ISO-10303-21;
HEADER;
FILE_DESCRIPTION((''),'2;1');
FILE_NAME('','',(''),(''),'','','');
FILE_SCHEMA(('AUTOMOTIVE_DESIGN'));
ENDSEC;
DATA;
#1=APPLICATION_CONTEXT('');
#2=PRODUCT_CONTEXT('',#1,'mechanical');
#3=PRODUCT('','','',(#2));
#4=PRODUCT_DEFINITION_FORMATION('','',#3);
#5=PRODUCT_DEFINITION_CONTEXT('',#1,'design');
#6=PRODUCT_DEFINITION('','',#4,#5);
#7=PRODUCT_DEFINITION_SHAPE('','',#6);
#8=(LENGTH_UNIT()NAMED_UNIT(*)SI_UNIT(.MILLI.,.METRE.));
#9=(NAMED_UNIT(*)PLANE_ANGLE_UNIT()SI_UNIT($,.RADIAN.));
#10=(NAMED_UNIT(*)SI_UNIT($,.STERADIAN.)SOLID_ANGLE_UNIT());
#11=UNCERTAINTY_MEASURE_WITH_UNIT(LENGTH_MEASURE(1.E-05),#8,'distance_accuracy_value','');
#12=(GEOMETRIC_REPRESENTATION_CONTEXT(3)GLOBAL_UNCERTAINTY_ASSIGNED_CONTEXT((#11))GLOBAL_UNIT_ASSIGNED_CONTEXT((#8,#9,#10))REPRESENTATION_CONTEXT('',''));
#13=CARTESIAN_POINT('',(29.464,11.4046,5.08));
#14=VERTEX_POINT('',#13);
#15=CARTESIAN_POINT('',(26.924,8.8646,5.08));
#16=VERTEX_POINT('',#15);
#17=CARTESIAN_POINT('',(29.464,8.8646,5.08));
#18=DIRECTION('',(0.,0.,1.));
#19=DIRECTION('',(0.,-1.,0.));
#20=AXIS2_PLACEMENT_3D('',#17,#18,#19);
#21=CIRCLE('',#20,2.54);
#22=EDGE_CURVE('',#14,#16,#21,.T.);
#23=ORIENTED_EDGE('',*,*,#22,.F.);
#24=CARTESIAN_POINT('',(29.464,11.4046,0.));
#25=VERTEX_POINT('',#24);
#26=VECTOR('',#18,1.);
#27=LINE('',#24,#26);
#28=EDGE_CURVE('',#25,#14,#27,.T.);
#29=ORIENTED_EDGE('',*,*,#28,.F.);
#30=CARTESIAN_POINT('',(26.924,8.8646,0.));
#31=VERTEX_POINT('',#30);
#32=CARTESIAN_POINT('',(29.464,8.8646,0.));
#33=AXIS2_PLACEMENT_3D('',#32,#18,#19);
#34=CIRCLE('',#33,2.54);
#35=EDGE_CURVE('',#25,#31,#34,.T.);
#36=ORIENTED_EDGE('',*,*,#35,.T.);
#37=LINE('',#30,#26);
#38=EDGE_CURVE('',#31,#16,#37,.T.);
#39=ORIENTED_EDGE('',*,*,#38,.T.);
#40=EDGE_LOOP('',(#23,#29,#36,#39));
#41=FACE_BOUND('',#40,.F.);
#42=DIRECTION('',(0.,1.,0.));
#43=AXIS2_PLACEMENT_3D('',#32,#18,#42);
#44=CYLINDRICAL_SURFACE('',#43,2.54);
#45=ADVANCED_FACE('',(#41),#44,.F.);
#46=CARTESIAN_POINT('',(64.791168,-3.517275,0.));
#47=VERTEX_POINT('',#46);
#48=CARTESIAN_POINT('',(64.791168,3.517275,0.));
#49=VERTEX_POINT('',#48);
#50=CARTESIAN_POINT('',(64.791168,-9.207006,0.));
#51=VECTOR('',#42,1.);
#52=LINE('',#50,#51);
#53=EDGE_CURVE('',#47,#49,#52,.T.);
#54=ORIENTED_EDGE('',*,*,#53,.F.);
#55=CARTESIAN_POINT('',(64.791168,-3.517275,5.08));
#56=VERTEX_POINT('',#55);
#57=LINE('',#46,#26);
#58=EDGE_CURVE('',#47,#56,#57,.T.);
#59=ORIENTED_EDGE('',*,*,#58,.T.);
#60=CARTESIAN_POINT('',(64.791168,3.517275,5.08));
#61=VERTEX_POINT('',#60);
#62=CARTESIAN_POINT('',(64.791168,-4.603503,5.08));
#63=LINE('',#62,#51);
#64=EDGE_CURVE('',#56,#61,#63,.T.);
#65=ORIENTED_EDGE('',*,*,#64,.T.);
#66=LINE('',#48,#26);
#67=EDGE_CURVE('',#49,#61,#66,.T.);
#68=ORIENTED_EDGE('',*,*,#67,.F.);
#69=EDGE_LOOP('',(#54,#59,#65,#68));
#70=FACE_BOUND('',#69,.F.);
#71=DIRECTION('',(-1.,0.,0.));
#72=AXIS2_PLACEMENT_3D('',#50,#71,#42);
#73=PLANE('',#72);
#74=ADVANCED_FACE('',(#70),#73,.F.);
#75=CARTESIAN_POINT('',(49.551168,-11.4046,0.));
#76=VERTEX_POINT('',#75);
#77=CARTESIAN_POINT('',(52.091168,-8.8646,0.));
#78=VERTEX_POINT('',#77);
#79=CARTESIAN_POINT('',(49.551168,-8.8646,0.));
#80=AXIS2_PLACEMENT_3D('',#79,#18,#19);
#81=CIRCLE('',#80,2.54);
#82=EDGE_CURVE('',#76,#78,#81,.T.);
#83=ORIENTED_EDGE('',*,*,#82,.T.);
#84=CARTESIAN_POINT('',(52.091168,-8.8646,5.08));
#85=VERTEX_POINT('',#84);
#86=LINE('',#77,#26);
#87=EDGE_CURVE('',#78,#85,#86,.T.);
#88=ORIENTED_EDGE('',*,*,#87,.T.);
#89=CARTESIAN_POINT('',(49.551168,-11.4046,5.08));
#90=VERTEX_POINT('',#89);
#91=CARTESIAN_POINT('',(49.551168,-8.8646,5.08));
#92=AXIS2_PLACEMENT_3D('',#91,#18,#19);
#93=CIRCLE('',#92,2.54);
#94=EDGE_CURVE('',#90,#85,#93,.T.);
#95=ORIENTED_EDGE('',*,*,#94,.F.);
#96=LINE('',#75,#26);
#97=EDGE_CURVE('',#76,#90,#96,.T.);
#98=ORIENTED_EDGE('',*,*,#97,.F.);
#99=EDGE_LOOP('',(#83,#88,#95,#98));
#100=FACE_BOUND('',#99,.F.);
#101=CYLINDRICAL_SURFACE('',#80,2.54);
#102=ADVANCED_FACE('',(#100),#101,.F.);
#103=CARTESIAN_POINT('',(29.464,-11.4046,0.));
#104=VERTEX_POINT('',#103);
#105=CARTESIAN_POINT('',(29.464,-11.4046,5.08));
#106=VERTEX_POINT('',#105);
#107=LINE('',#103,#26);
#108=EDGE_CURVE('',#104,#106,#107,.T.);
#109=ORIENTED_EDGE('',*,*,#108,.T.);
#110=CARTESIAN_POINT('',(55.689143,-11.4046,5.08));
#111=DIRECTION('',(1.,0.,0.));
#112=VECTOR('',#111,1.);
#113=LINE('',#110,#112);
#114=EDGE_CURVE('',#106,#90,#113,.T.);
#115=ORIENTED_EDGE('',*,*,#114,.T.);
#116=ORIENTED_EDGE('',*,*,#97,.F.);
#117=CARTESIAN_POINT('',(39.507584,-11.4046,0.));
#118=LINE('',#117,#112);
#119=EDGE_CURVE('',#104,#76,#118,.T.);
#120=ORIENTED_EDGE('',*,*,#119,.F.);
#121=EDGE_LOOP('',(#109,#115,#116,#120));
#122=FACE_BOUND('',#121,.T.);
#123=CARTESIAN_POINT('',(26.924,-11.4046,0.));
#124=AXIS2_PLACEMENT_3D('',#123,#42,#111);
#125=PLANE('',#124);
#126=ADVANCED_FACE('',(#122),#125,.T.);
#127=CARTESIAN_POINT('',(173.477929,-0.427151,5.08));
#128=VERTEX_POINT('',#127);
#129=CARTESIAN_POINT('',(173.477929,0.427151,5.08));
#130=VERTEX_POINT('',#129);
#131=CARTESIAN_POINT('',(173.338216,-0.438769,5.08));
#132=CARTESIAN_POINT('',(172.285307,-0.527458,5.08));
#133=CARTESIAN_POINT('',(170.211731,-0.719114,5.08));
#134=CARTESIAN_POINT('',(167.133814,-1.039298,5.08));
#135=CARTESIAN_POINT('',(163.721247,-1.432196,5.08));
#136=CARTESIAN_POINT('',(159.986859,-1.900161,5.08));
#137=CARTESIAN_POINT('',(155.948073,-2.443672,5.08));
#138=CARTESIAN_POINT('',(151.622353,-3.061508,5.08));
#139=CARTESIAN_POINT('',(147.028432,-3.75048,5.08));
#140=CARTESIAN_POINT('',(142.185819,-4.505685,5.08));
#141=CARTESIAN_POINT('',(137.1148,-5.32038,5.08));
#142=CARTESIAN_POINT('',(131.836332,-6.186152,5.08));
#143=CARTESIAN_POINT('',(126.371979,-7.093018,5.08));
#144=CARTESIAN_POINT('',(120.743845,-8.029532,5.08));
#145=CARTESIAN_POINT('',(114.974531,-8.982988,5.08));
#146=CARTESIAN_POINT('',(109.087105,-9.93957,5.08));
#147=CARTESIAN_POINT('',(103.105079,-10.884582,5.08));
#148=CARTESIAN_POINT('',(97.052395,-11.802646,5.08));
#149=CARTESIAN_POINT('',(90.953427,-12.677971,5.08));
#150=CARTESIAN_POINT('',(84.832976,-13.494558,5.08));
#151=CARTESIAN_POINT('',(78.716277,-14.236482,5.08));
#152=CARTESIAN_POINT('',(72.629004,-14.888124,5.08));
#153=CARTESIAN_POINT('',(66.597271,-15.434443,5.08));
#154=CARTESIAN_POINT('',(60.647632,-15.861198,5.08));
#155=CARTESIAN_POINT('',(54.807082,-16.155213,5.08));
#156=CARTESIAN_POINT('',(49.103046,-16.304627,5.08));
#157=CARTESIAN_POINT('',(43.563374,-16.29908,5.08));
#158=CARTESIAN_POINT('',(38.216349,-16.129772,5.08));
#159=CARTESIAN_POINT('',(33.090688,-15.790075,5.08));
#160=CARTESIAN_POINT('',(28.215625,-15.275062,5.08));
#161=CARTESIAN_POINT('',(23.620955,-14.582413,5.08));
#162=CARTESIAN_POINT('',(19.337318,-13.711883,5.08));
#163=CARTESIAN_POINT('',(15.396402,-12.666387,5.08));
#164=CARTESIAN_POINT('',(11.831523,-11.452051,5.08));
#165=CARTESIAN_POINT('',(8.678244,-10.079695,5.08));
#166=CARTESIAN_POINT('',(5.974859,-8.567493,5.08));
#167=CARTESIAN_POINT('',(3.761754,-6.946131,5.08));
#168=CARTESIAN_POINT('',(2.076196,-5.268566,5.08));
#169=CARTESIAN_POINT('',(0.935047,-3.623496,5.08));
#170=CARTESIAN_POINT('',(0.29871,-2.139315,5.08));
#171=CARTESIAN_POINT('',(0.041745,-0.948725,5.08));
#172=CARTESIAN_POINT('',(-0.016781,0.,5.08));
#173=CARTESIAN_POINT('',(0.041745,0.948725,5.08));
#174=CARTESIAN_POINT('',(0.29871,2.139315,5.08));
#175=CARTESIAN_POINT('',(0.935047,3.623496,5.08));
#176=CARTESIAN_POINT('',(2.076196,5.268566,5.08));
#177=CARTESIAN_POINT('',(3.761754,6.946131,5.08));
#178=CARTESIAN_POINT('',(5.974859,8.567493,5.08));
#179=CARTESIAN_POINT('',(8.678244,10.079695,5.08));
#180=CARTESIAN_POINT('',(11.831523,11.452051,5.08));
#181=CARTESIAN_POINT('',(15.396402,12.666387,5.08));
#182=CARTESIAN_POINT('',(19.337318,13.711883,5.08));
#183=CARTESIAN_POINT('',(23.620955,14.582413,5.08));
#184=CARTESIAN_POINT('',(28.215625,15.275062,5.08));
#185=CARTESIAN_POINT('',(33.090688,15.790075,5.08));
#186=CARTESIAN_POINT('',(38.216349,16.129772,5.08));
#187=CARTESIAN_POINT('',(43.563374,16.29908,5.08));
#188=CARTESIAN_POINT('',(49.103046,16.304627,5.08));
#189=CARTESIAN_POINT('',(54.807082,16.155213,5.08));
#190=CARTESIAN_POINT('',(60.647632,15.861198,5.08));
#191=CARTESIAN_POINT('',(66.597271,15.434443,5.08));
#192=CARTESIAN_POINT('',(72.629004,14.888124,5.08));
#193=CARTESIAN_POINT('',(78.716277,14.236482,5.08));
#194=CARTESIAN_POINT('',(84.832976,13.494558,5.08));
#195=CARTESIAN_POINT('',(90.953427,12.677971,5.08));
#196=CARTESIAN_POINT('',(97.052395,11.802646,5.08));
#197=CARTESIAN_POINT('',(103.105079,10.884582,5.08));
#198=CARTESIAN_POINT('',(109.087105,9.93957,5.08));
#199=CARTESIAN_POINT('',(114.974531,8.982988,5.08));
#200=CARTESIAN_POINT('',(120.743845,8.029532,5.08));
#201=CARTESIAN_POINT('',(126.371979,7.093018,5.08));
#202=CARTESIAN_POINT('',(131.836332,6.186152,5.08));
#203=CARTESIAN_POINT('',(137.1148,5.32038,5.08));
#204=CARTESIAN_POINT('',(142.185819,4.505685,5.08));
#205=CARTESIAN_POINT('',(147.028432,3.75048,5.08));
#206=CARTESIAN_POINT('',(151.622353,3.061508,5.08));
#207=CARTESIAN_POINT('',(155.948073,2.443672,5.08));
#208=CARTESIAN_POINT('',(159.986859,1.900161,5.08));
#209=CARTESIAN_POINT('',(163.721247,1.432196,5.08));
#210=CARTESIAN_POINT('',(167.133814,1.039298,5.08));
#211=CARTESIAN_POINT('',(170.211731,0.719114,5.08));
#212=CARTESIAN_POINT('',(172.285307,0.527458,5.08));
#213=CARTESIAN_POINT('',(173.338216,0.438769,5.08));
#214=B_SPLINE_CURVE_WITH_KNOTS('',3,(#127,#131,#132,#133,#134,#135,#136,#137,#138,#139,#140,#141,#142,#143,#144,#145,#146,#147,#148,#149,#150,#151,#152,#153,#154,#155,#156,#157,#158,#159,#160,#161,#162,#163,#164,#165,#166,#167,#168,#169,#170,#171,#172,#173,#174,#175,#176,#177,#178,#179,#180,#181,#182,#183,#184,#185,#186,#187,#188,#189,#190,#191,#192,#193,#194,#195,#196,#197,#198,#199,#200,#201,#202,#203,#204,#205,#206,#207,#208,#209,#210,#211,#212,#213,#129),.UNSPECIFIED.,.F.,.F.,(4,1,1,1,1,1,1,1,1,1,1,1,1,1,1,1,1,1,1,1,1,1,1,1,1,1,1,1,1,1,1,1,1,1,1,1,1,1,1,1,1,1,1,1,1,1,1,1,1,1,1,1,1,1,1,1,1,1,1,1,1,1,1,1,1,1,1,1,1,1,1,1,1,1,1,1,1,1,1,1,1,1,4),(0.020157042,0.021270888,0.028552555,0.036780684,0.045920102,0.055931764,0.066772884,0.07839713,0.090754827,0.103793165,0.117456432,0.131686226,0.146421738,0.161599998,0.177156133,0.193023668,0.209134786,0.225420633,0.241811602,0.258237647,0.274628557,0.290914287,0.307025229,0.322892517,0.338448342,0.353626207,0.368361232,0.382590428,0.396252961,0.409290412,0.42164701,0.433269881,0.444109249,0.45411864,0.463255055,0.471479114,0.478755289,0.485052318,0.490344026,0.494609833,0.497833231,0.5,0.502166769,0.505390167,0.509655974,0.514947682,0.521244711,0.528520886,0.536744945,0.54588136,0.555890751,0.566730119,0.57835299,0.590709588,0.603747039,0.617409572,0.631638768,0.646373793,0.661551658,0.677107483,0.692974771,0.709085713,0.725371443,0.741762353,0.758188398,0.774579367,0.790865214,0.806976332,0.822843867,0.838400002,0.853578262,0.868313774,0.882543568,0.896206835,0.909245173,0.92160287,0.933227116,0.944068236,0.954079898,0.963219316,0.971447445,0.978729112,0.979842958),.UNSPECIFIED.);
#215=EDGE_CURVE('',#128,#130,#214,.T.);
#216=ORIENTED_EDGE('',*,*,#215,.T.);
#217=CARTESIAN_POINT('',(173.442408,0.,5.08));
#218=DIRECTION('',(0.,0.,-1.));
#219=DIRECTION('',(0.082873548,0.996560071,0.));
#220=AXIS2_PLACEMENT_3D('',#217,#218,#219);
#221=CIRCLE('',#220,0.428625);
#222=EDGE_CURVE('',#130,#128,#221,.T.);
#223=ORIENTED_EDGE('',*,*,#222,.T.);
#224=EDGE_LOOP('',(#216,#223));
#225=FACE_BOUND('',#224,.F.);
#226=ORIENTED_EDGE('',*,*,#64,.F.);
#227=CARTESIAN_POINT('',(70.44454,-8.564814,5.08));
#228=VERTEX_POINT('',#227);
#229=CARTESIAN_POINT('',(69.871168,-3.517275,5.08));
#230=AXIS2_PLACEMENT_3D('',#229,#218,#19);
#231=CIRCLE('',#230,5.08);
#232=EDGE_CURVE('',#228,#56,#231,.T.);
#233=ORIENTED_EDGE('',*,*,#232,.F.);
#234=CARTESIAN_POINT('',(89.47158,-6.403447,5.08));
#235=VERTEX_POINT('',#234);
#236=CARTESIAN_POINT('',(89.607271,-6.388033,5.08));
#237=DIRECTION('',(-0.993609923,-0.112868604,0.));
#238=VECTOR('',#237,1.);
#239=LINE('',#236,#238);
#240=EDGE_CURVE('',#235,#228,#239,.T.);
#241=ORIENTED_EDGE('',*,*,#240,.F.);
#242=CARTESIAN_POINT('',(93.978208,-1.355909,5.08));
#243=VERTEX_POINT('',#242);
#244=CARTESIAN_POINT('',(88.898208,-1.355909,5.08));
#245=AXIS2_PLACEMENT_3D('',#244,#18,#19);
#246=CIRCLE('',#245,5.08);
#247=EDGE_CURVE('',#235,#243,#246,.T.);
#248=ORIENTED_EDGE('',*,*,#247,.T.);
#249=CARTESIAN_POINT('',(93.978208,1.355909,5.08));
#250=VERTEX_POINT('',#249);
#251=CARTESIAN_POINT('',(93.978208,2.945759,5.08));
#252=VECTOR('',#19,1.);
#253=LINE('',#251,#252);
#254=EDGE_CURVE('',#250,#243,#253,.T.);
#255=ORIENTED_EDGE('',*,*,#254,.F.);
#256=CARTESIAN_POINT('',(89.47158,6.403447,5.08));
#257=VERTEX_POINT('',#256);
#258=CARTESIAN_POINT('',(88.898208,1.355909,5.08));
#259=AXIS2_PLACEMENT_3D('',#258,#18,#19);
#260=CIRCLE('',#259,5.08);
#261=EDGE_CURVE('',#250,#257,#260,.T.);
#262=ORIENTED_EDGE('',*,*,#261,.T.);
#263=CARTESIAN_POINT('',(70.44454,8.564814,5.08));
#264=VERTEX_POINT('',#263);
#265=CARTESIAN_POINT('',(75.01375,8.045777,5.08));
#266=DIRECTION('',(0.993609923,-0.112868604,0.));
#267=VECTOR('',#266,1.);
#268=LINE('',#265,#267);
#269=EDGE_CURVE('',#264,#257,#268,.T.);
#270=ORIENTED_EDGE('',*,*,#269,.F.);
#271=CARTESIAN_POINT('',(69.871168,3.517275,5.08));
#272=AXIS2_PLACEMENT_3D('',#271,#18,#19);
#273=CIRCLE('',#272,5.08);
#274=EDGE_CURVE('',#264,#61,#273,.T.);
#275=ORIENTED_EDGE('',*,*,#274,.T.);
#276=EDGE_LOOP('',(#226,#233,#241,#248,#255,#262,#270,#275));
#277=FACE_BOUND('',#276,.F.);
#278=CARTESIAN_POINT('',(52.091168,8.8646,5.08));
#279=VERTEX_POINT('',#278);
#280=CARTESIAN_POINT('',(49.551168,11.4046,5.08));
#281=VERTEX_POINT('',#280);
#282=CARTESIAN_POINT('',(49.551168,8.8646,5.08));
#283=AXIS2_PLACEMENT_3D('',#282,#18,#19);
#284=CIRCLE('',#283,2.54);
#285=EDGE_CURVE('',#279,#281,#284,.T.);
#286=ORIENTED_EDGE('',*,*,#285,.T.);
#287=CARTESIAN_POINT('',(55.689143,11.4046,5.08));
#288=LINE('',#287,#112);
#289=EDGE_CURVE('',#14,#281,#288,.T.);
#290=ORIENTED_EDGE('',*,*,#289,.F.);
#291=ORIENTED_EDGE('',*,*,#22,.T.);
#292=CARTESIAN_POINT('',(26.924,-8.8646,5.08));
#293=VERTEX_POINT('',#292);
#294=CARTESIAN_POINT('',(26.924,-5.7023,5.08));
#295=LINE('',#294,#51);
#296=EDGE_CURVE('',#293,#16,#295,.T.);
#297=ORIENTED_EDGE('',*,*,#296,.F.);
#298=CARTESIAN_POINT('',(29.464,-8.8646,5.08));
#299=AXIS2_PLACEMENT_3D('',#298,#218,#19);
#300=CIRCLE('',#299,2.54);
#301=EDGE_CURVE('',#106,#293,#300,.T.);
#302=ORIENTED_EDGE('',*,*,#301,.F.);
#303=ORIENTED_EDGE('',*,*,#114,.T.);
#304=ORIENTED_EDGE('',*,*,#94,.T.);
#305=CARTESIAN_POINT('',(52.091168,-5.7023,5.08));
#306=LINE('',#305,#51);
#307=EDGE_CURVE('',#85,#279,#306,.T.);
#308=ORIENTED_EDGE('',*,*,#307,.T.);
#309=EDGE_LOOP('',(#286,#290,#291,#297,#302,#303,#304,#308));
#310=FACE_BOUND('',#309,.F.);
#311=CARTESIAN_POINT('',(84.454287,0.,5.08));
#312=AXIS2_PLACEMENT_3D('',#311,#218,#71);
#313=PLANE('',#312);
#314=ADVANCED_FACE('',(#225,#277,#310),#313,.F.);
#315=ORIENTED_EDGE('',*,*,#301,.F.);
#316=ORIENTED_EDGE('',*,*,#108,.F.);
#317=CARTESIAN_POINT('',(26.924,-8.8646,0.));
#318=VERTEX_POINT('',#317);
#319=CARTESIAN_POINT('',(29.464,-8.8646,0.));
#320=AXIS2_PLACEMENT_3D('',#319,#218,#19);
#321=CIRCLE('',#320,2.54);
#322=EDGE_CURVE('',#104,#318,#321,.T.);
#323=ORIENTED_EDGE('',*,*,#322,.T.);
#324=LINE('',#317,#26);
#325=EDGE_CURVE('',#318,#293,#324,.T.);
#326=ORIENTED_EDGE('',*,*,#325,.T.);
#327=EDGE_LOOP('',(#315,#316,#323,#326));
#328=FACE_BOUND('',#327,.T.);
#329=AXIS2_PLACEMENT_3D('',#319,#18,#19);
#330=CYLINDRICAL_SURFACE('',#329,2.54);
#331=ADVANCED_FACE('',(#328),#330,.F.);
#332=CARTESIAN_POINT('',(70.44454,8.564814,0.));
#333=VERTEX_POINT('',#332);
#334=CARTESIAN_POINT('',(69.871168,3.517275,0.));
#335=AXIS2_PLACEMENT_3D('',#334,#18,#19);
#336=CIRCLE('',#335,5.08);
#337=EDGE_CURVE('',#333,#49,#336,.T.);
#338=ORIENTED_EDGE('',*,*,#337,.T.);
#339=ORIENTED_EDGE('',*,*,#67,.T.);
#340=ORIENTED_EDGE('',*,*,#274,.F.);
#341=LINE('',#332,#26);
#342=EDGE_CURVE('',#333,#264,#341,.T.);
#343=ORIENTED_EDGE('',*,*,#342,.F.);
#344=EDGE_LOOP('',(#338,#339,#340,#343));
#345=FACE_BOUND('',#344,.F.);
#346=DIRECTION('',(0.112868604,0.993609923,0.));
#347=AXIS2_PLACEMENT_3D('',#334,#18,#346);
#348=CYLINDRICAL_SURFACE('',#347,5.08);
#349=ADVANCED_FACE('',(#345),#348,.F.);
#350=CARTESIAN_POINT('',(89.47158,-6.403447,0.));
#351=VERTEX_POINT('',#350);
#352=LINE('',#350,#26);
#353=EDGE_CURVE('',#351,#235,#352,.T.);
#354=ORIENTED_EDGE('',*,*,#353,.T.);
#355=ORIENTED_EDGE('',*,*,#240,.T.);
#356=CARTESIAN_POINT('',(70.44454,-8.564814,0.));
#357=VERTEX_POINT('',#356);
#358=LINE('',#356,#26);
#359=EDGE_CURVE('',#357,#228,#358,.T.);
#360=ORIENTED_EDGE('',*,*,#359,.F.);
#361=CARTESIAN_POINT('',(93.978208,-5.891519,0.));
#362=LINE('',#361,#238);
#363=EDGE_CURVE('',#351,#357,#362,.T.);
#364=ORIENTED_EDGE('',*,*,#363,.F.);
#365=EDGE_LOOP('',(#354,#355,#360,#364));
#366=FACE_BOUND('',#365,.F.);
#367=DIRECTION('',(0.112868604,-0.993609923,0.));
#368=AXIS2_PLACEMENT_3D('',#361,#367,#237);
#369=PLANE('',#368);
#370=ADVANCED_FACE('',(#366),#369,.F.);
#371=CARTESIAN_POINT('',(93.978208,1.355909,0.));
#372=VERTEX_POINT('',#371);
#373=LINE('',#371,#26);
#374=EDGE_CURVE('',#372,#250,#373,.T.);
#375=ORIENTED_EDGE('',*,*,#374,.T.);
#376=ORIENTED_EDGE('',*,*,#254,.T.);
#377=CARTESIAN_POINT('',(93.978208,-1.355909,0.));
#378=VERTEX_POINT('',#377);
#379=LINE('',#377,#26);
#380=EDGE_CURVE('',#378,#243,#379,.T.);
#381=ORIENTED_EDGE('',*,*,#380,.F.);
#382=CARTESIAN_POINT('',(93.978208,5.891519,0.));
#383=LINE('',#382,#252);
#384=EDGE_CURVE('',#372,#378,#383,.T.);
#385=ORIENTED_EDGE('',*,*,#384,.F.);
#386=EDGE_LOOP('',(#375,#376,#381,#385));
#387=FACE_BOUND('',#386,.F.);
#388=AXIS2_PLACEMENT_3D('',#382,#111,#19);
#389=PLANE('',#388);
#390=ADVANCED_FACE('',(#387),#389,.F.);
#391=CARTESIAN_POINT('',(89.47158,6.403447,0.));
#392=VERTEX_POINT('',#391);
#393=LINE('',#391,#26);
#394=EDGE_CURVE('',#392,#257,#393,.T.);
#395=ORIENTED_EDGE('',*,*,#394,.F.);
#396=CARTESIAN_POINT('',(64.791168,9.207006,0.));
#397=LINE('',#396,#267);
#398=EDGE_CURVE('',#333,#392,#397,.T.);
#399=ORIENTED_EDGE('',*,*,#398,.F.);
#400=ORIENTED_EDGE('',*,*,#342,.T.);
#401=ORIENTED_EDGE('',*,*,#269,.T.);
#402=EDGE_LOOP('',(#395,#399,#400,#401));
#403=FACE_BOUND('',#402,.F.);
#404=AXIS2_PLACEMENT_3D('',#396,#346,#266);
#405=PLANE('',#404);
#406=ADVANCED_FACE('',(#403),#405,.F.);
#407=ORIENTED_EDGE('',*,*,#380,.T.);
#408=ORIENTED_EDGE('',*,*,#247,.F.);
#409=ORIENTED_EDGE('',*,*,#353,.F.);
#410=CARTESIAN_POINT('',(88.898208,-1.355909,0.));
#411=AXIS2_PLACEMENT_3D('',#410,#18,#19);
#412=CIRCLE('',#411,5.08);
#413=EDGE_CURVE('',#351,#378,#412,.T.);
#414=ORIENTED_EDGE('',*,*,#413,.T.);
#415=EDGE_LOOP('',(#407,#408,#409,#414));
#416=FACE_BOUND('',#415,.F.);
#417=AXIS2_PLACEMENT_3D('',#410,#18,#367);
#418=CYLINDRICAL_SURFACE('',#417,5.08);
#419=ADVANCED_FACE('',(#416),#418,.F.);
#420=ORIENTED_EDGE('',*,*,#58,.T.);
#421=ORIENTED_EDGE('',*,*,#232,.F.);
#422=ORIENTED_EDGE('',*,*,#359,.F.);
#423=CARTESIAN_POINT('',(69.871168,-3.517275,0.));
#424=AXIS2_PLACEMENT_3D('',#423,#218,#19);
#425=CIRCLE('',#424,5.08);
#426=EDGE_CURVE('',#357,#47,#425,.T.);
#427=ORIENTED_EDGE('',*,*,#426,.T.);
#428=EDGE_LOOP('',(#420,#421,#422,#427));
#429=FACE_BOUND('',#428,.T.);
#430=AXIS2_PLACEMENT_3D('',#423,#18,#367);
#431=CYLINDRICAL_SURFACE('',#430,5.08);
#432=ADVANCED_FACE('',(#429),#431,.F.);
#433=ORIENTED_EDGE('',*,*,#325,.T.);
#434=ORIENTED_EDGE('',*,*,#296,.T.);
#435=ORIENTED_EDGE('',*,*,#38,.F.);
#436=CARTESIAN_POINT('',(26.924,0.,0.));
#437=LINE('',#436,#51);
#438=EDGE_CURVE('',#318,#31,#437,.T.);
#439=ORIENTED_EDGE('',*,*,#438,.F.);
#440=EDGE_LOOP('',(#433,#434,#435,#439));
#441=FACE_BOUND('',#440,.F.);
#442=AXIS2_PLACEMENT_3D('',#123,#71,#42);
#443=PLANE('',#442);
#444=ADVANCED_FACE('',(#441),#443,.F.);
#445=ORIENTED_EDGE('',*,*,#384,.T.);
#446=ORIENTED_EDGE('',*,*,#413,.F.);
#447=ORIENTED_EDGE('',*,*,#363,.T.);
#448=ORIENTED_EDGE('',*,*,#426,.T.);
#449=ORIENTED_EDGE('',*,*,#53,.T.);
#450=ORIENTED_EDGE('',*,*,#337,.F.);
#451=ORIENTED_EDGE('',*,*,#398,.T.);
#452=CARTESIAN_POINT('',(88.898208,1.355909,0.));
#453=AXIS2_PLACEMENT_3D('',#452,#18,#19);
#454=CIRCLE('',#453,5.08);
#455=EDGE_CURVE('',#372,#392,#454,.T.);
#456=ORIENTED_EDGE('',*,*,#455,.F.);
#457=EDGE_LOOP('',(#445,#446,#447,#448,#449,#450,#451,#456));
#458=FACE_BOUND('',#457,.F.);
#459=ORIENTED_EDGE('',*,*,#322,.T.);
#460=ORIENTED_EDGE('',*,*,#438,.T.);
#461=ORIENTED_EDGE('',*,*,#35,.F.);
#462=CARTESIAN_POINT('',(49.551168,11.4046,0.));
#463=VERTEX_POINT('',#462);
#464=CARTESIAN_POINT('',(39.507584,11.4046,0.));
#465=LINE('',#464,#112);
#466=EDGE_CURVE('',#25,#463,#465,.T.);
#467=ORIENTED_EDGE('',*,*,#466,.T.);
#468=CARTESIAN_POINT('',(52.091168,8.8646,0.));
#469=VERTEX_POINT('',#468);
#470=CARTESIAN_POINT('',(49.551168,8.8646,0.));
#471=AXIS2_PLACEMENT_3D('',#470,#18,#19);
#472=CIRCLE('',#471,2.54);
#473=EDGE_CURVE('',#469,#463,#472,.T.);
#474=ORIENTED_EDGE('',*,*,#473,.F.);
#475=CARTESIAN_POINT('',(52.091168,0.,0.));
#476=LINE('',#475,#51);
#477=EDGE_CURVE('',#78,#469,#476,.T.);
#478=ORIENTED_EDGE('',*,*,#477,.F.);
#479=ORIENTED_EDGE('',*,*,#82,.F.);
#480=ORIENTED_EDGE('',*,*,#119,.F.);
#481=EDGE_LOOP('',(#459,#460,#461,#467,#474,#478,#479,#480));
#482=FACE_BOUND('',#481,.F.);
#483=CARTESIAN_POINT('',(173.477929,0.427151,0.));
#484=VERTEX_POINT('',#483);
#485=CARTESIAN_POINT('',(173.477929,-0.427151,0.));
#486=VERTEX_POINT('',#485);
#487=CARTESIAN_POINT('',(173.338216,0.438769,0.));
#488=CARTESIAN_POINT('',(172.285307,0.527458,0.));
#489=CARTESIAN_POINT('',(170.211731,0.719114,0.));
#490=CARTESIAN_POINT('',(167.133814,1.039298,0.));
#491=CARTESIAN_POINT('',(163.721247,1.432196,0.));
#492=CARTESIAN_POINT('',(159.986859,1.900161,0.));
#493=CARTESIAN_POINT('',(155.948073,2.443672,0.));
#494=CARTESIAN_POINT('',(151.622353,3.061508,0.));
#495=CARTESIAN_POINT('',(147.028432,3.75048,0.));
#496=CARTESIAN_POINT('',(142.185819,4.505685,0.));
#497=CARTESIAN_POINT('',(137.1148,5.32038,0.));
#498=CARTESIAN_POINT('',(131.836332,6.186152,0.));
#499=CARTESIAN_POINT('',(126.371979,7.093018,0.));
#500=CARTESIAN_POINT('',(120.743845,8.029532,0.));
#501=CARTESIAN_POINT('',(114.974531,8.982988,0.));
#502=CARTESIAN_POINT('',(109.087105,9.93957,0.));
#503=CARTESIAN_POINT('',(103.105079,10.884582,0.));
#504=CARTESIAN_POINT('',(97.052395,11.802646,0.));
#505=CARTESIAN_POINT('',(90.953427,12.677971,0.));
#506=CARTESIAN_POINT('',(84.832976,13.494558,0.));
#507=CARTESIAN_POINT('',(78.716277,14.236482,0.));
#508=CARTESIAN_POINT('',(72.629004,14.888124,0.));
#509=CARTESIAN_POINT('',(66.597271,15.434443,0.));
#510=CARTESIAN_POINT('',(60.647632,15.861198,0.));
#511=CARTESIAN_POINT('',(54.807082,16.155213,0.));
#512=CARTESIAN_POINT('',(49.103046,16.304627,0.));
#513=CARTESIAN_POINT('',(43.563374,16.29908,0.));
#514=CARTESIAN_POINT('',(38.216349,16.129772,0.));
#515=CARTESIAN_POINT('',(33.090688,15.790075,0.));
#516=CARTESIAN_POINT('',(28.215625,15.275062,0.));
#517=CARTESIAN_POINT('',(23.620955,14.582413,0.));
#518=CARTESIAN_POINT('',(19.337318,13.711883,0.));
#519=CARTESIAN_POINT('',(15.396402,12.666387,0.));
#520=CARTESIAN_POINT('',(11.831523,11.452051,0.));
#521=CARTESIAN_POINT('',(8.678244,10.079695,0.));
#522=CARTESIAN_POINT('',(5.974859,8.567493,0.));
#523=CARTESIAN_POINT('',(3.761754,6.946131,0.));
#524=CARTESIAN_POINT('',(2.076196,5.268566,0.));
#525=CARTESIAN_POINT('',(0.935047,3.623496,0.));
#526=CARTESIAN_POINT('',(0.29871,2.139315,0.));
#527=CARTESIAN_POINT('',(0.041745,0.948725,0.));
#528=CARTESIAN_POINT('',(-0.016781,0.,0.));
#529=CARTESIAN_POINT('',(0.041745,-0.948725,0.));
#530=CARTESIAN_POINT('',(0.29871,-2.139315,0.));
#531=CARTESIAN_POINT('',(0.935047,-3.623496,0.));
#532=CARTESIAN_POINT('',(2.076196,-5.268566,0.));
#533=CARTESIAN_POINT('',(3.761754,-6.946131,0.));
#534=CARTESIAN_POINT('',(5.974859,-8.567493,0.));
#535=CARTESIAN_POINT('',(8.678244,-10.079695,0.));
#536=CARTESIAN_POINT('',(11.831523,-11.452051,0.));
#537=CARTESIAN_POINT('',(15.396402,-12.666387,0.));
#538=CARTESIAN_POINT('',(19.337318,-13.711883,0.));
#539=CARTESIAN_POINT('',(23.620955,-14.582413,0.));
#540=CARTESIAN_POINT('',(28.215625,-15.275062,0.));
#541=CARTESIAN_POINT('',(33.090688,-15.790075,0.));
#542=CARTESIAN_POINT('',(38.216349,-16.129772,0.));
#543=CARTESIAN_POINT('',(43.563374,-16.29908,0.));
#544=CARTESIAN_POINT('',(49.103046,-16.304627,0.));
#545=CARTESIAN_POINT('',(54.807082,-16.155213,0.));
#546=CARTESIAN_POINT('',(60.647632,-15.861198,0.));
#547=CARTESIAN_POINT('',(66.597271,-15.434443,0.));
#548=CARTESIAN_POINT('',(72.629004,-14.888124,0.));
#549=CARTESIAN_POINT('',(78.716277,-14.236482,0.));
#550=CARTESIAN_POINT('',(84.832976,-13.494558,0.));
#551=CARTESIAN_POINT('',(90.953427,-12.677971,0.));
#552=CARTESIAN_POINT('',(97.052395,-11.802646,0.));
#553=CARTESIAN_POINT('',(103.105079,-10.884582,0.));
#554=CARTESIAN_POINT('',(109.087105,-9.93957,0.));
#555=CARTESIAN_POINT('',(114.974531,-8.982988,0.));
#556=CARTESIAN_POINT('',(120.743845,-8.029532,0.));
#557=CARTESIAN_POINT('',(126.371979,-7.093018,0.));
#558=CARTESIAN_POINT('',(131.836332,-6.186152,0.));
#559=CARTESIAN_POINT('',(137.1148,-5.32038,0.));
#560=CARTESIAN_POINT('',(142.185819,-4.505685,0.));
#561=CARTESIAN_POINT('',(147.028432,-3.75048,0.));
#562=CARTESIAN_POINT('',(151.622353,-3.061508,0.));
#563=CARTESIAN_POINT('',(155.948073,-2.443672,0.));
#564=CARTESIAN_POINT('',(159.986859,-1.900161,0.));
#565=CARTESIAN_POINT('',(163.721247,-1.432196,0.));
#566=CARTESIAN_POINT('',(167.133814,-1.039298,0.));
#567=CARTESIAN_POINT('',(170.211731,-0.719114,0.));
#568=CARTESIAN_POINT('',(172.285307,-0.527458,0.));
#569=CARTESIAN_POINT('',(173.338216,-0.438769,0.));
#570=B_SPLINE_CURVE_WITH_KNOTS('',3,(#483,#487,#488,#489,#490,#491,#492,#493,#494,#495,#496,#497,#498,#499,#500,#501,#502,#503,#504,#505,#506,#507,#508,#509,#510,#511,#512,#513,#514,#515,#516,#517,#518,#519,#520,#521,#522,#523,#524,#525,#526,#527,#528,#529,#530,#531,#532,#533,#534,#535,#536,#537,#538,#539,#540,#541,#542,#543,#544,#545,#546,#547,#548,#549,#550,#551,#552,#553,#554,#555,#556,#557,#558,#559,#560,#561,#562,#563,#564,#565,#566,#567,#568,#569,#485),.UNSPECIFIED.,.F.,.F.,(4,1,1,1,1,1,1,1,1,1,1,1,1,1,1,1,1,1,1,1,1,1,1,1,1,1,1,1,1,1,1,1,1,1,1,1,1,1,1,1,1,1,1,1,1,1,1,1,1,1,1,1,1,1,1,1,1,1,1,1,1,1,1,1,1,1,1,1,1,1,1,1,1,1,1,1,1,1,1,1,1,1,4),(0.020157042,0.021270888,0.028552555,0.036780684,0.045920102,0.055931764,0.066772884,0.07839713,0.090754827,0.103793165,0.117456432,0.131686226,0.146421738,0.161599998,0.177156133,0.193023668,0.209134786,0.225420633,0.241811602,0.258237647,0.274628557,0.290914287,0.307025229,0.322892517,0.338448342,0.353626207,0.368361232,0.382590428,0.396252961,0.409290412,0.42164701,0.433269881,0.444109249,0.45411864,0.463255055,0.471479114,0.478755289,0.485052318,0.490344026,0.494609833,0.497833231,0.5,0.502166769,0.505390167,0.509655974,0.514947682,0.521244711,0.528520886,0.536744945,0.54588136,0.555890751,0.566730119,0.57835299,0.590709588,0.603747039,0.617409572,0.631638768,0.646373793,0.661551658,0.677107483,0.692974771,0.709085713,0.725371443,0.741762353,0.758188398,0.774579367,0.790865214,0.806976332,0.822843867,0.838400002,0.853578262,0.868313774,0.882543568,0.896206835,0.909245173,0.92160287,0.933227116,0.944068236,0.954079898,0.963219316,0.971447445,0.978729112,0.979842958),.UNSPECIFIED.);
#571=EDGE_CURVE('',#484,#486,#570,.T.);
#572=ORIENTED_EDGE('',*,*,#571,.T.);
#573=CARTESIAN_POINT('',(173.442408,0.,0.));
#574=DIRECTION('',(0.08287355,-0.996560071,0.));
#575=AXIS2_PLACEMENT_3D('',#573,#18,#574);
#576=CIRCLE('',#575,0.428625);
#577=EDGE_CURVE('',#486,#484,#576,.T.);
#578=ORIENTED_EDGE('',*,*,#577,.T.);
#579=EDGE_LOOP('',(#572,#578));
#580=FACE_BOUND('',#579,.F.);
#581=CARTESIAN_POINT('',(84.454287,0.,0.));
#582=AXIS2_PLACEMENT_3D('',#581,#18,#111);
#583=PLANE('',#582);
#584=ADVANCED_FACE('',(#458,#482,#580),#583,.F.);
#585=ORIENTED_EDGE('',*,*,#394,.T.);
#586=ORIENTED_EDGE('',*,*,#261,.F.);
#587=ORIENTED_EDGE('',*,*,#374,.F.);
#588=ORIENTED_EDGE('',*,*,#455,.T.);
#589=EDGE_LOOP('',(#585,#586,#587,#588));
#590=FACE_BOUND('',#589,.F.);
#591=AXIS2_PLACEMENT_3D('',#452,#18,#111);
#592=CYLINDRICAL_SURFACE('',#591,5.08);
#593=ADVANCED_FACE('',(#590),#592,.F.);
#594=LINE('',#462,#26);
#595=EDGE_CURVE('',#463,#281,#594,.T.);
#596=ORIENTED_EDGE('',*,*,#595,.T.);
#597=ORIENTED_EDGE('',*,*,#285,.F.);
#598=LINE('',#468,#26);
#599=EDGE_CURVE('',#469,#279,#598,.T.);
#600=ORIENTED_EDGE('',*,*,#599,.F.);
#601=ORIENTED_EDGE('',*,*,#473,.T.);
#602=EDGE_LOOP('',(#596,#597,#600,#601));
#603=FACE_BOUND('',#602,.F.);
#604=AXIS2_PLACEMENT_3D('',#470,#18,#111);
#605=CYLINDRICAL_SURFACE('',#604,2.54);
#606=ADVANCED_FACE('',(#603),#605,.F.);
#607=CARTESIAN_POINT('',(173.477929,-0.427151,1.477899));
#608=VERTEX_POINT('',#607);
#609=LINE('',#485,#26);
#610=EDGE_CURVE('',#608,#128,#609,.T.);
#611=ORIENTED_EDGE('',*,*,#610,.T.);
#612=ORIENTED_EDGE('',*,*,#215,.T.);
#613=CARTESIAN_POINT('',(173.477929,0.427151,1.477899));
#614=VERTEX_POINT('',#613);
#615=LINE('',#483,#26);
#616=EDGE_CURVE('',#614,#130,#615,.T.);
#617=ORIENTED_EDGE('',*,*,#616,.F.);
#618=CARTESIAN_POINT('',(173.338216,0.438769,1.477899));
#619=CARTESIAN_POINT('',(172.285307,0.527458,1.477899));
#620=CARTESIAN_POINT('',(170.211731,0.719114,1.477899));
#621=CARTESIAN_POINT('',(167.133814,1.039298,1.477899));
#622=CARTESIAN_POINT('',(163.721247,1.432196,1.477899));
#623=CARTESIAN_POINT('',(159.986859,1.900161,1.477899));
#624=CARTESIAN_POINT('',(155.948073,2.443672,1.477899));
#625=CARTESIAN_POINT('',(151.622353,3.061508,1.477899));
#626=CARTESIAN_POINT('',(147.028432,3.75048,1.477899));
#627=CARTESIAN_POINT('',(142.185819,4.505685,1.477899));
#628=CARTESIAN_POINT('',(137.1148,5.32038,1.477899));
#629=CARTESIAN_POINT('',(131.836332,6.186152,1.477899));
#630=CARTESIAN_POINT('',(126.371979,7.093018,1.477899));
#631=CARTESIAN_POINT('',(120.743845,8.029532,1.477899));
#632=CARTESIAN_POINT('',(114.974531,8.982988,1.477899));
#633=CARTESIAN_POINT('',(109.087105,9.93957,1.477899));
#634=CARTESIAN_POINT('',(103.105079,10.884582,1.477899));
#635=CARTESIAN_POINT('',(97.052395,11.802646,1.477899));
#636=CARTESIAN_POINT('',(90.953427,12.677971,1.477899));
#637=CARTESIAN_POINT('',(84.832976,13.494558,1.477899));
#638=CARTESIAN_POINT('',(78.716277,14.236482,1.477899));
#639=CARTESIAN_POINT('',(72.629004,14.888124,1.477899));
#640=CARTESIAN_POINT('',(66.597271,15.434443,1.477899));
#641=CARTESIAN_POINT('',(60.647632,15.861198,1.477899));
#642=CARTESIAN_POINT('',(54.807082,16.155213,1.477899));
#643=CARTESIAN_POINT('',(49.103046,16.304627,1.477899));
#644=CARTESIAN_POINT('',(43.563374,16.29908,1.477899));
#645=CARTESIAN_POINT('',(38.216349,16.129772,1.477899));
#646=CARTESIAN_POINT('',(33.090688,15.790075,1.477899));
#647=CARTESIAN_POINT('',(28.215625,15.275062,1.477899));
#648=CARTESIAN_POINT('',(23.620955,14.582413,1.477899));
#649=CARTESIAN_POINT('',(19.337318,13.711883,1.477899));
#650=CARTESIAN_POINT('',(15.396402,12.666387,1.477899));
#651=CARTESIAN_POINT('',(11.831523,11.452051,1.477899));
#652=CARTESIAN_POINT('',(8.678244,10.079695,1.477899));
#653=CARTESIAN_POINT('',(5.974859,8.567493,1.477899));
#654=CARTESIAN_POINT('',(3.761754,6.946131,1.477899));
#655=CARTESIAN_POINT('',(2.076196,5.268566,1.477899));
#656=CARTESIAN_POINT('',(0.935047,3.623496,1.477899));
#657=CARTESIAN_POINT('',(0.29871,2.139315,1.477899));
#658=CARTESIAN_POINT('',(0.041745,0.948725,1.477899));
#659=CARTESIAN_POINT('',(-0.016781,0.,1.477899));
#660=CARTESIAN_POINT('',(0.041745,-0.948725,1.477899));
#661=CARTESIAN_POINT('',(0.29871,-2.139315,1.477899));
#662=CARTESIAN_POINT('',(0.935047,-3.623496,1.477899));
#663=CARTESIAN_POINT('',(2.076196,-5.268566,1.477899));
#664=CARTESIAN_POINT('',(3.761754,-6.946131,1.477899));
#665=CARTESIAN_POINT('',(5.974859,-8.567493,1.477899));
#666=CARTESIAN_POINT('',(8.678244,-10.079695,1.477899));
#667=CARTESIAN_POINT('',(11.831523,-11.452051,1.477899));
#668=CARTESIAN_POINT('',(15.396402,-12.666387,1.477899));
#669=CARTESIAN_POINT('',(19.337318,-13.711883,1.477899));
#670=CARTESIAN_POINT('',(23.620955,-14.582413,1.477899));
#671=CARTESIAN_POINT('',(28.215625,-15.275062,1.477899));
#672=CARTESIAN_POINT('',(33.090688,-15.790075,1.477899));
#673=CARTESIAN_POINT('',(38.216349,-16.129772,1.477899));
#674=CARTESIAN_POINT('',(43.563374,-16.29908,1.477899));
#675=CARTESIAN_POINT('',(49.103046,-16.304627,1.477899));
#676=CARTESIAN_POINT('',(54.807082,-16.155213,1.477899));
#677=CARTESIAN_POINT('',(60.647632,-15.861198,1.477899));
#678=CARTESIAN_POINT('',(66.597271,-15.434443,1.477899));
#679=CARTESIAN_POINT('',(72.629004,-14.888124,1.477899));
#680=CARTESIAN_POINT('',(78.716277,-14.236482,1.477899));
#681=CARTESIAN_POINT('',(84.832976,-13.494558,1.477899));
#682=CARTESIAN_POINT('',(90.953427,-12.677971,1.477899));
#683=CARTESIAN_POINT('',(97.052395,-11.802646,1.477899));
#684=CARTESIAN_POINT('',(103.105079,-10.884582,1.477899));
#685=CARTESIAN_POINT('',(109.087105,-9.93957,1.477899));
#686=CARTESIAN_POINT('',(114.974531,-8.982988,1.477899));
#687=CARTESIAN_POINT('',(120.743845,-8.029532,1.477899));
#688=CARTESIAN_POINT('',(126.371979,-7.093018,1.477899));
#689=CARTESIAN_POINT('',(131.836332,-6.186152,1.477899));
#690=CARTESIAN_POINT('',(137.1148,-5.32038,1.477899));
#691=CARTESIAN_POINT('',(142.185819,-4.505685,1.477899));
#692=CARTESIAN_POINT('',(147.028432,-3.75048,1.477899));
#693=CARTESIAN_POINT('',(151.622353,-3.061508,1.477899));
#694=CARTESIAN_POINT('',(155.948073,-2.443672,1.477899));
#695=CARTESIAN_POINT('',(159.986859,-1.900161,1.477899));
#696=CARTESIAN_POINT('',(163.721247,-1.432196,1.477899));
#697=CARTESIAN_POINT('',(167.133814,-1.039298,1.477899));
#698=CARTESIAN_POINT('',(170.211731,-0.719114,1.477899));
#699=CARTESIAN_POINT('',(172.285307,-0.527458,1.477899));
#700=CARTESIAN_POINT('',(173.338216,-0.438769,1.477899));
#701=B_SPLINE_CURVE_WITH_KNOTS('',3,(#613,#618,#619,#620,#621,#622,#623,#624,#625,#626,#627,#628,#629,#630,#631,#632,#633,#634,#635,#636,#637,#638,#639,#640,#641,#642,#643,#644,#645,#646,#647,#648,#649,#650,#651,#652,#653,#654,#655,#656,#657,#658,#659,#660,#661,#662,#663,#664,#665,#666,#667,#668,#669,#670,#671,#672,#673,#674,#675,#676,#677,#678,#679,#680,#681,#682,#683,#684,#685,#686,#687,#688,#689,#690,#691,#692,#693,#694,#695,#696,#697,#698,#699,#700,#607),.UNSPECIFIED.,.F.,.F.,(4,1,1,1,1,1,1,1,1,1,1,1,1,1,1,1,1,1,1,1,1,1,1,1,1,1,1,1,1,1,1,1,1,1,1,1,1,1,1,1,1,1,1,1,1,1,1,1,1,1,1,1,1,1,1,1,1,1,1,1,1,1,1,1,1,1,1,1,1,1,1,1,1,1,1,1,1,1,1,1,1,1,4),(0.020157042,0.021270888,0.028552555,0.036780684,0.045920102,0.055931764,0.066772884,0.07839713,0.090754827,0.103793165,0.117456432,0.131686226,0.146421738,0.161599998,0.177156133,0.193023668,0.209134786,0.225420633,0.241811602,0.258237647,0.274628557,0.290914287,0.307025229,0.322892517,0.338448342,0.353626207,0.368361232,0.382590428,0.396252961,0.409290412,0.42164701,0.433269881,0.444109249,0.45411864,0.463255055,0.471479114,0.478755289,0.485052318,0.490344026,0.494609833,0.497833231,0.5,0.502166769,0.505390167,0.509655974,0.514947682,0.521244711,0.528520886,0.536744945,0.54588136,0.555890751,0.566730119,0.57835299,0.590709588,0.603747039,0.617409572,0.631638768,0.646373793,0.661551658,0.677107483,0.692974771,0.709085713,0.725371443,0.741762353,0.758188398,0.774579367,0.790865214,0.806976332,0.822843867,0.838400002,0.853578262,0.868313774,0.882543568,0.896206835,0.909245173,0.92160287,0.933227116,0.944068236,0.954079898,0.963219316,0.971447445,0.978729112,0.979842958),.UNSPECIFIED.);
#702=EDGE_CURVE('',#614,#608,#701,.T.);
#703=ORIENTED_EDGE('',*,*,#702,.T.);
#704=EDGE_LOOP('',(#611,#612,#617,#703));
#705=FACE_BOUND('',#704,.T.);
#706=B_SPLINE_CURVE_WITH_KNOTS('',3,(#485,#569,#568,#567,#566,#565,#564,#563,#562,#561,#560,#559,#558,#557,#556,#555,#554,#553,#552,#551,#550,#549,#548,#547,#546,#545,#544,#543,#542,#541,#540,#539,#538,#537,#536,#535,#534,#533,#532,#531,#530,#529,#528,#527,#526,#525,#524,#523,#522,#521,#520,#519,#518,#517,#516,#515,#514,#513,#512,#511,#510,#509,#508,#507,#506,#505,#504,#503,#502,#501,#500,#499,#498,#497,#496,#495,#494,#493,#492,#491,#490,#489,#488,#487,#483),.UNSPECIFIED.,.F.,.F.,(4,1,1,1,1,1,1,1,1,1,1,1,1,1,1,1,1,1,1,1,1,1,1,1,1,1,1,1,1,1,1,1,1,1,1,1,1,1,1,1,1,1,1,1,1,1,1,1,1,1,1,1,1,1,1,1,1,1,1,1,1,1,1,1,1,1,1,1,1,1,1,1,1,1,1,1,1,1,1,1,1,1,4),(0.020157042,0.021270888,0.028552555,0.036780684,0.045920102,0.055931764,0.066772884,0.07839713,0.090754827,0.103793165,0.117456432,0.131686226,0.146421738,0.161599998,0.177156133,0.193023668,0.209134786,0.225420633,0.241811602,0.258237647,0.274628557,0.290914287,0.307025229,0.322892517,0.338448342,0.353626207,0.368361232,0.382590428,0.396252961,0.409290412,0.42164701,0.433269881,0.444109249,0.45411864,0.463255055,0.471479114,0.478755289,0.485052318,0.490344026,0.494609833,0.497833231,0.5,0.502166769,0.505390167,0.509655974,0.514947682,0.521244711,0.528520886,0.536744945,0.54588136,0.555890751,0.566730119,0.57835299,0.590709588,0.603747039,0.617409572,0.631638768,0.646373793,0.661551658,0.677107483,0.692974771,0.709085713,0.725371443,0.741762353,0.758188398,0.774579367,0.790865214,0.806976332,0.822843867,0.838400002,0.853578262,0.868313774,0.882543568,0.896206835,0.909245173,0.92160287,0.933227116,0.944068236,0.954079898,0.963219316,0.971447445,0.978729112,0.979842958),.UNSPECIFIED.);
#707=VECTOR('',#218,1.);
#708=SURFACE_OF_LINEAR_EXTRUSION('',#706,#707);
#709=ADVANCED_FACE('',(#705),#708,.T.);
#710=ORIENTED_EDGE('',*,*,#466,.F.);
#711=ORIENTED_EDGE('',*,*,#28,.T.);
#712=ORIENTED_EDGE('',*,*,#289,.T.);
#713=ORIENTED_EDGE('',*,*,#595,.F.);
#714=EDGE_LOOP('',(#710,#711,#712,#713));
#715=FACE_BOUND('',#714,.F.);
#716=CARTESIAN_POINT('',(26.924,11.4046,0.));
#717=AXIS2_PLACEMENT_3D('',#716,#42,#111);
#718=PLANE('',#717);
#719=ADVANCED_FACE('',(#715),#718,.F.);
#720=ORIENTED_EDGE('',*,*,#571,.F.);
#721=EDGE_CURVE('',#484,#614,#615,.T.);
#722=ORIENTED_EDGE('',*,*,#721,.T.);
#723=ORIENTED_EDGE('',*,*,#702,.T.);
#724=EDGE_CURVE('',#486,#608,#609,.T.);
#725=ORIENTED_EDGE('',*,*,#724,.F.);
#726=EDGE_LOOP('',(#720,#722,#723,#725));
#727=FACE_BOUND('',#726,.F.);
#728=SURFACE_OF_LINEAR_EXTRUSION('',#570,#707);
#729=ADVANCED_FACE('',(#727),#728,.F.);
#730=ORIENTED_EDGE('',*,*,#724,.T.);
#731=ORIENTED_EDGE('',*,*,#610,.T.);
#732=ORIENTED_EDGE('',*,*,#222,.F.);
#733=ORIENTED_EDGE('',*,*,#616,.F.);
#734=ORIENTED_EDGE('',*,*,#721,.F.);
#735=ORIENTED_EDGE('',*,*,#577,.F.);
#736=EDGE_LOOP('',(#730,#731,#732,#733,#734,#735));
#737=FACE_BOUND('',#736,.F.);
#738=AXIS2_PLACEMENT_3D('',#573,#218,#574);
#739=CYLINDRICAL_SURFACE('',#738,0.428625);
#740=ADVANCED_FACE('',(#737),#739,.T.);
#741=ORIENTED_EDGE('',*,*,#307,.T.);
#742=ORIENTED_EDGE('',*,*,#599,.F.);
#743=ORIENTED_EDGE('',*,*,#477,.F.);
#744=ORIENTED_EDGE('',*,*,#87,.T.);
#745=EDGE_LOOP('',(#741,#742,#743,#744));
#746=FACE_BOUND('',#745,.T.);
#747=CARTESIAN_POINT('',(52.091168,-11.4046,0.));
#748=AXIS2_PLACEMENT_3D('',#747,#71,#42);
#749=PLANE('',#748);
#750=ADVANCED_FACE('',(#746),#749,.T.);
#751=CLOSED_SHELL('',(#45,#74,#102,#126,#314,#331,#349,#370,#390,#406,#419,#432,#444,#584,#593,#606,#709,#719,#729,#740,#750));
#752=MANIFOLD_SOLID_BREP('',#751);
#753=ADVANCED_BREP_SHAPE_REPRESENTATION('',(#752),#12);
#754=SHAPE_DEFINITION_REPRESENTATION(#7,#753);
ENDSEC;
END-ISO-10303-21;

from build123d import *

# Parameters (mm, degrees)
BOSS_EXTRUDE1_DEPTH = 5.4737
SCALE1_SCALE        = 0.27
BOSS_EXTRUDE2_DEPTH = 5.08
SKETCH10_W          = 25.167167629
SKETCH10_H          = 22.8092
CUT_EXTRUDE6_DEPTH  = 6.0800001
FILLET1_R           = 2.54
CUT_EXTRUDE7_DEPTH  = 6.0800001
FILLET2_R           = 5.08


with BuildPart() as part:
    # Sketch2 → Boss-Extrude1 (new body)
    with BuildSketch(Plane.XY):
        with BuildLine():
            add(Edge.make_bspline(
                [(642.510849283, 1.582039112), (641.993392355, 1.625070631), (638.093728429, 1.953546407), (630.413817462, 2.663385493), (619.014124193, 3.849253664), (606.374988512, 5.304428983), (592.543922516, 7.037634907), (577.585454095, 9.050636147), (561.564270734, 11.338919625), (544.549749946, 13.890665375), (526.614143658, 16.687720753), (507.832591566, 19.705111663), (488.282710288, 22.911672601), (468.044367735, 26.27043606), (447.199424328, 29.739007432), (425.831595832, 33.270324121), (404.02631566, 36.813220545), (381.870662856, 40.313266856), (359.453314895, 43.713502532), (336.86454415, 46.955447457), (314.196207315, 49.979843895), (291.541767704, 52.727712704), (268.996310773, 55.141201012), (246.65655865, 57.164603829), (224.620860897, 58.745176641), (202.989192599, 59.8341217), (181.863132616, 60.387506142), (161.345829027, 60.366961324), (141.542033828, 59.739895824), (122.558104573, 58.481758104), (104.502313427, 56.574303932), (87.485018636, 54.008935199), (71.619696083, 50.784752003), (57.023709725, 46.912543066), (43.82045433, 42.41500246), (32.141645239, 37.332204029), (22.129107375, 31.731455339), (13.932423524, 25.726412106), (7.689616489, 19.513207632), (3.463136343, 13.420354421), (1.106333228, 7.923389435), (0.154611582, 3.513796615), (-0.062151598, 0), (0.154611582, -3.513796615), (1.106333228, -7.923389435), (3.463136343, -13.420354421), (7.689616489, -19.513207632), (13.932423524, -25.726412106), (22.129107375, -31.731455339), (32.141645239, -37.332204029), (43.82045433, -42.41500246), (57.023709725, -46.912543066), (71.619696083, -50.784752003), (87.485018636, -54.008935199), (104.502313427, -56.574303932), (122.558104573, -58.481758104), (141.542033828, -59.739895824), (161.345829027, -60.366961324), (181.863132616, -60.387506142), (202.989192599, -59.8341217), (224.620860897, -58.745176641), (246.65655865, -57.164603829), (268.996310773, -55.141201012), (291.541767704, -52.727712704), (314.196207315, -49.979843895), (336.86454415, -46.955447457), (359.453314895, -43.713502532), (381.870662856, -40.313266856), (404.02631566, -36.813220545), (425.831595832, -33.270324121), (447.199424328, -29.739007432), (468.044367735, -26.27043606), (488.282710288, -22.911672601), (507.832591566, -19.705111663), (526.614143658, -16.687720753), (544.549749946, -13.890665375), (561.564270734, -11.338919625), (577.585454095, -9.050636147), (592.543922516, -7.037634907), (606.374988512, -5.304428983), (619.014124193, -3.849253664), (630.413817462, -2.663385493), (638.093728429, -1.953546407), (641.993392355, -1.625070631), (642.510849283, -1.582039112)],
                knots=[0.020157042, 0.020157042, 0.020157042, 0.020157042, 0.021270888, 0.028552555, 0.036780684, 0.045920102, 0.055931764, 0.066772884, 0.07839713, 0.090754827, 0.103793165, 0.117456432, 0.131686226, 0.146421738, 0.161599998, 0.177156133, 0.193023668, 0.209134786, 0.225420633, 0.241811602, 0.258237647, 0.274628557, 0.290914287, 0.307025229, 0.322892517, 0.338448342, 0.353626207, 0.368361232, 0.382590428, 0.396252961, 0.409290412, 0.42164701, 0.433269881, 0.444109249, 0.45411864, 0.463255055, 0.471479114, 0.478755289, 0.485052318, 0.490344026, 0.494609833, 0.497833231, 0.5, 0.502166769, 0.505390167, 0.509655974, 0.514947682, 0.521244711, 0.528520886, 0.536744945, 0.54588136, 0.555890751, 0.566730119, 0.57835299, 0.590709588, 0.603747039, 0.617409572, 0.631638768, 0.646373793, 0.661551658, 0.677107483, 0.692974771, 0.709085713, 0.725371443, 0.741762353, 0.758188398, 0.774579367, 0.790865214, 0.806976332, 0.822843867, 0.838400002, 0.853578262, 0.868313774, 0.882543568, 0.896206835, 0.909245173, 0.92160287, 0.933227116, 0.944068236, 0.954079898, 0.963219316, 0.971447445, 0.978729112, 0.979842958, 0.979842958, 0.979842958, 0.979842958], degree=3))
            ThreePointArc((642.510849283, -1.582039112), (643.966787522, 0), (642.510849283, 1.582039112))
        make_face()
    extrude(amount=BOSS_EXTRUDE1_DEPTH)


with BuildPart() as part_1:
    # Scale1: scaled about (0, 0, 0)
    add(part.part.scale(SCALE1_SCALE))

    # Sketch11 → Boss-Extrude2 (add)
    with BuildSketch(Plane(origin=(0, 0, 0), x_dir=(-1, 0, 0), z_dir=(0, 0, -1))):
        with BuildLine():
            ThreePointArc((-173.477929306, 0.42715056), (-173.871032631, 0), (-173.477929306, -0.42715056))
            add(Edge.make_bspline(
                [(-173.477929306, -0.42715056), (-173.338215936, -0.43876907), (-172.285306676, -0.52745753), (-170.211730715, -0.719114083), (-167.133813532, -1.039298489), (-163.721246898, -1.432195826), (-159.986859079, -1.900161425), (-155.948072606, -2.44367176), (-151.622353098, -3.061508299), (-147.028432485, -3.750479651), (-142.185818788, -4.505684603), (-137.114799723, -5.320380149), (-131.836331778, -6.186151602), (-126.371979288, -7.093017736), (-120.743844569, -8.029532007), (-114.974530875, -8.982987513), (-109.087105228, -9.939569547), (-103.105078971, -10.884582051), (-97.052395022, -11.802645684), (-90.953426921, -12.677970813), (-84.832975975, -13.494557852), (-78.71627728, -14.23648243), (-72.629003909, -14.888124273), (-66.597270835, -15.434443034), (-60.647632442, -15.861197693), (-54.807082002, -16.155212859), (-49.103045806, -16.304626658), (-43.563373837, -16.299079558), (-38.216349134, -16.129771873), (-33.090688235, -15.790074688), (-28.215624625, -15.275062062), (-23.620955032, -14.582412504), (-19.337317942, -13.711883041), (-15.396401626, -12.666386628), (-11.831522669, -11.452050664), (-8.678244214, -10.079695088), (-5.974858991, -8.567492941), (-3.761754351, -6.946131269), (-2.076196452, -5.268566061), (-0.935046813, -3.623495694), (-0.298709971, -2.139315147), (-0.041745127, -0.948725086), (0.016780931, 0), (-0.041745127, 0.948725086), (-0.298709971, 2.139315147), (-0.935046813, 3.623495694), (-2.076196452, 5.268566061), (-3.761754351, 6.946131269), (-5.974858991, 8.567492941), (-8.678244214, 10.079695088), (-11.831522669, 11.452050664), (-15.396401626, 12.666386628), (-19.337317942, 13.711883041), (-23.620955032, 14.582412504), (-28.215624625, 15.275062062), (-33.090688235, 15.790074688), (-38.216349134, 16.129771873), (-43.563373837, 16.299079558), (-49.103045806, 16.304626658), (-54.807082002, 16.155212859), (-60.647632442, 15.861197693), (-66.597270835, 15.434443034), (-72.629003909, 14.888124273), (-78.71627728, 14.23648243), (-84.832975975, 13.494557852), (-90.953426921, 12.677970813), (-97.052395022, 11.802645684), (-103.105078971, 10.884582051), (-109.087105228, 9.939569547), (-114.974530875, 8.982987513), (-120.743844569, 8.029532007), (-126.371979288, 7.093017736), (-131.836331778, 6.186151602), (-137.114799723, 5.320380149), (-142.185818788, 4.505684603), (-147.028432485, 3.750479651), (-151.622353098, 3.061508299), (-155.948072606, 2.44367176), (-159.986859079, 1.900161425), (-163.721246898, 1.432195826), (-167.133813532, 1.039298489), (-170.211730715, 0.719114083), (-172.285306676, 0.52745753), (-173.338215936, 0.43876907), (-173.477929306, 0.42715056)],
                knots=[0.020157042, 0.020157042, 0.020157042, 0.020157042, 0.021270888, 0.028552555, 0.036780684, 0.045920102, 0.055931764, 0.066772884, 0.07839713, 0.090754827, 0.103793165, 0.117456432, 0.131686226, 0.146421738, 0.161599998, 0.177156133, 0.193023668, 0.209134786, 0.225420633, 0.241811602, 0.258237647, 0.274628557, 0.290914287, 0.307025229, 0.322892517, 0.338448342, 0.353626207, 0.368361232, 0.382590428, 0.396252961, 0.409290412, 0.42164701, 0.433269881, 0.444109249, 0.45411864, 0.463255055, 0.471479114, 0.478755289, 0.485052318, 0.490344026, 0.494609833, 0.497833231, 0.5, 0.502166769, 0.505390167, 0.509655974, 0.514947682, 0.521244711, 0.528520886, 0.536744945, 0.54588136, 0.555890751, 0.566730119, 0.57835299, 0.590709588, 0.603747039, 0.617409572, 0.631638768, 0.646373793, 0.661551658, 0.677107483, 0.692974771, 0.709085713, 0.725371443, 0.741762353, 0.758188398, 0.774579367, 0.790865214, 0.806976332, 0.822843867, 0.838400002, 0.853578262, 0.868313774, 0.882543568, 0.896206835, 0.909245173, 0.92160287, 0.933227116, 0.944068236, 0.954079898, 0.963219316, 0.971447445, 0.978729112, 0.979842958, 0.979842958, 0.979842958, 0.979842958], degree=3))
        make_face()
    extrude(amount=-BOSS_EXTRUDE2_DEPTH)

    # Sketch10 → Cut-Extrude6 (cut, through all)
    with BuildSketch(Plane.XY):
        with Locations((39.507583815, 0)):
            Rectangle(SKETCH10_W, SKETCH10_H)
    extrude(amount=CUT_EXTRUDE6_DEPTH, mode=Mode.SUBTRACT)

    # Fillet1
    fillet1_edges = [part_1.edges().sort_by_distance(p)[0] for p in [
        (52.091167629, -11.4046, 2.54),
        (52.091167629, 11.4046, 2.54),
        (26.924, 11.4046, 2.54),
        (26.924, -11.4046, 2.54),
    ]]
    fillet(fillet1_edges, radius=FILLET1_R)

    # Sketch12 → Cut-Extrude7 (cut, through all)
    with BuildSketch(Plane(origin=(0, 0, 0), x_dir=(-1, 0, 0), z_dir=(0, 0, -1))):
        Polygon((-64.791167629, -9.207005666), (-64.791167629, 9.207005666), (-93.978207942, 5.891518956), (-93.978207942, -5.891518956), align=None)
    extrude(amount=-CUT_EXTRUDE7_DEPTH, mode=Mode.SUBTRACT)

    # Fillet2
    fillet2_edges = [part_1.edges().sort_by_distance(p)[0] for p in [
        (64.791167629, -9.207005666, 2.54),
        (93.978207942, -5.891518956, 2.54),
        (93.978207942, 5.891518956, 2.54),
        (64.791167629, 9.207005666, 2.54),
    ]]
    fillet(fillet2_edges, radius=FILLET2_R)


solid = part_1.part
